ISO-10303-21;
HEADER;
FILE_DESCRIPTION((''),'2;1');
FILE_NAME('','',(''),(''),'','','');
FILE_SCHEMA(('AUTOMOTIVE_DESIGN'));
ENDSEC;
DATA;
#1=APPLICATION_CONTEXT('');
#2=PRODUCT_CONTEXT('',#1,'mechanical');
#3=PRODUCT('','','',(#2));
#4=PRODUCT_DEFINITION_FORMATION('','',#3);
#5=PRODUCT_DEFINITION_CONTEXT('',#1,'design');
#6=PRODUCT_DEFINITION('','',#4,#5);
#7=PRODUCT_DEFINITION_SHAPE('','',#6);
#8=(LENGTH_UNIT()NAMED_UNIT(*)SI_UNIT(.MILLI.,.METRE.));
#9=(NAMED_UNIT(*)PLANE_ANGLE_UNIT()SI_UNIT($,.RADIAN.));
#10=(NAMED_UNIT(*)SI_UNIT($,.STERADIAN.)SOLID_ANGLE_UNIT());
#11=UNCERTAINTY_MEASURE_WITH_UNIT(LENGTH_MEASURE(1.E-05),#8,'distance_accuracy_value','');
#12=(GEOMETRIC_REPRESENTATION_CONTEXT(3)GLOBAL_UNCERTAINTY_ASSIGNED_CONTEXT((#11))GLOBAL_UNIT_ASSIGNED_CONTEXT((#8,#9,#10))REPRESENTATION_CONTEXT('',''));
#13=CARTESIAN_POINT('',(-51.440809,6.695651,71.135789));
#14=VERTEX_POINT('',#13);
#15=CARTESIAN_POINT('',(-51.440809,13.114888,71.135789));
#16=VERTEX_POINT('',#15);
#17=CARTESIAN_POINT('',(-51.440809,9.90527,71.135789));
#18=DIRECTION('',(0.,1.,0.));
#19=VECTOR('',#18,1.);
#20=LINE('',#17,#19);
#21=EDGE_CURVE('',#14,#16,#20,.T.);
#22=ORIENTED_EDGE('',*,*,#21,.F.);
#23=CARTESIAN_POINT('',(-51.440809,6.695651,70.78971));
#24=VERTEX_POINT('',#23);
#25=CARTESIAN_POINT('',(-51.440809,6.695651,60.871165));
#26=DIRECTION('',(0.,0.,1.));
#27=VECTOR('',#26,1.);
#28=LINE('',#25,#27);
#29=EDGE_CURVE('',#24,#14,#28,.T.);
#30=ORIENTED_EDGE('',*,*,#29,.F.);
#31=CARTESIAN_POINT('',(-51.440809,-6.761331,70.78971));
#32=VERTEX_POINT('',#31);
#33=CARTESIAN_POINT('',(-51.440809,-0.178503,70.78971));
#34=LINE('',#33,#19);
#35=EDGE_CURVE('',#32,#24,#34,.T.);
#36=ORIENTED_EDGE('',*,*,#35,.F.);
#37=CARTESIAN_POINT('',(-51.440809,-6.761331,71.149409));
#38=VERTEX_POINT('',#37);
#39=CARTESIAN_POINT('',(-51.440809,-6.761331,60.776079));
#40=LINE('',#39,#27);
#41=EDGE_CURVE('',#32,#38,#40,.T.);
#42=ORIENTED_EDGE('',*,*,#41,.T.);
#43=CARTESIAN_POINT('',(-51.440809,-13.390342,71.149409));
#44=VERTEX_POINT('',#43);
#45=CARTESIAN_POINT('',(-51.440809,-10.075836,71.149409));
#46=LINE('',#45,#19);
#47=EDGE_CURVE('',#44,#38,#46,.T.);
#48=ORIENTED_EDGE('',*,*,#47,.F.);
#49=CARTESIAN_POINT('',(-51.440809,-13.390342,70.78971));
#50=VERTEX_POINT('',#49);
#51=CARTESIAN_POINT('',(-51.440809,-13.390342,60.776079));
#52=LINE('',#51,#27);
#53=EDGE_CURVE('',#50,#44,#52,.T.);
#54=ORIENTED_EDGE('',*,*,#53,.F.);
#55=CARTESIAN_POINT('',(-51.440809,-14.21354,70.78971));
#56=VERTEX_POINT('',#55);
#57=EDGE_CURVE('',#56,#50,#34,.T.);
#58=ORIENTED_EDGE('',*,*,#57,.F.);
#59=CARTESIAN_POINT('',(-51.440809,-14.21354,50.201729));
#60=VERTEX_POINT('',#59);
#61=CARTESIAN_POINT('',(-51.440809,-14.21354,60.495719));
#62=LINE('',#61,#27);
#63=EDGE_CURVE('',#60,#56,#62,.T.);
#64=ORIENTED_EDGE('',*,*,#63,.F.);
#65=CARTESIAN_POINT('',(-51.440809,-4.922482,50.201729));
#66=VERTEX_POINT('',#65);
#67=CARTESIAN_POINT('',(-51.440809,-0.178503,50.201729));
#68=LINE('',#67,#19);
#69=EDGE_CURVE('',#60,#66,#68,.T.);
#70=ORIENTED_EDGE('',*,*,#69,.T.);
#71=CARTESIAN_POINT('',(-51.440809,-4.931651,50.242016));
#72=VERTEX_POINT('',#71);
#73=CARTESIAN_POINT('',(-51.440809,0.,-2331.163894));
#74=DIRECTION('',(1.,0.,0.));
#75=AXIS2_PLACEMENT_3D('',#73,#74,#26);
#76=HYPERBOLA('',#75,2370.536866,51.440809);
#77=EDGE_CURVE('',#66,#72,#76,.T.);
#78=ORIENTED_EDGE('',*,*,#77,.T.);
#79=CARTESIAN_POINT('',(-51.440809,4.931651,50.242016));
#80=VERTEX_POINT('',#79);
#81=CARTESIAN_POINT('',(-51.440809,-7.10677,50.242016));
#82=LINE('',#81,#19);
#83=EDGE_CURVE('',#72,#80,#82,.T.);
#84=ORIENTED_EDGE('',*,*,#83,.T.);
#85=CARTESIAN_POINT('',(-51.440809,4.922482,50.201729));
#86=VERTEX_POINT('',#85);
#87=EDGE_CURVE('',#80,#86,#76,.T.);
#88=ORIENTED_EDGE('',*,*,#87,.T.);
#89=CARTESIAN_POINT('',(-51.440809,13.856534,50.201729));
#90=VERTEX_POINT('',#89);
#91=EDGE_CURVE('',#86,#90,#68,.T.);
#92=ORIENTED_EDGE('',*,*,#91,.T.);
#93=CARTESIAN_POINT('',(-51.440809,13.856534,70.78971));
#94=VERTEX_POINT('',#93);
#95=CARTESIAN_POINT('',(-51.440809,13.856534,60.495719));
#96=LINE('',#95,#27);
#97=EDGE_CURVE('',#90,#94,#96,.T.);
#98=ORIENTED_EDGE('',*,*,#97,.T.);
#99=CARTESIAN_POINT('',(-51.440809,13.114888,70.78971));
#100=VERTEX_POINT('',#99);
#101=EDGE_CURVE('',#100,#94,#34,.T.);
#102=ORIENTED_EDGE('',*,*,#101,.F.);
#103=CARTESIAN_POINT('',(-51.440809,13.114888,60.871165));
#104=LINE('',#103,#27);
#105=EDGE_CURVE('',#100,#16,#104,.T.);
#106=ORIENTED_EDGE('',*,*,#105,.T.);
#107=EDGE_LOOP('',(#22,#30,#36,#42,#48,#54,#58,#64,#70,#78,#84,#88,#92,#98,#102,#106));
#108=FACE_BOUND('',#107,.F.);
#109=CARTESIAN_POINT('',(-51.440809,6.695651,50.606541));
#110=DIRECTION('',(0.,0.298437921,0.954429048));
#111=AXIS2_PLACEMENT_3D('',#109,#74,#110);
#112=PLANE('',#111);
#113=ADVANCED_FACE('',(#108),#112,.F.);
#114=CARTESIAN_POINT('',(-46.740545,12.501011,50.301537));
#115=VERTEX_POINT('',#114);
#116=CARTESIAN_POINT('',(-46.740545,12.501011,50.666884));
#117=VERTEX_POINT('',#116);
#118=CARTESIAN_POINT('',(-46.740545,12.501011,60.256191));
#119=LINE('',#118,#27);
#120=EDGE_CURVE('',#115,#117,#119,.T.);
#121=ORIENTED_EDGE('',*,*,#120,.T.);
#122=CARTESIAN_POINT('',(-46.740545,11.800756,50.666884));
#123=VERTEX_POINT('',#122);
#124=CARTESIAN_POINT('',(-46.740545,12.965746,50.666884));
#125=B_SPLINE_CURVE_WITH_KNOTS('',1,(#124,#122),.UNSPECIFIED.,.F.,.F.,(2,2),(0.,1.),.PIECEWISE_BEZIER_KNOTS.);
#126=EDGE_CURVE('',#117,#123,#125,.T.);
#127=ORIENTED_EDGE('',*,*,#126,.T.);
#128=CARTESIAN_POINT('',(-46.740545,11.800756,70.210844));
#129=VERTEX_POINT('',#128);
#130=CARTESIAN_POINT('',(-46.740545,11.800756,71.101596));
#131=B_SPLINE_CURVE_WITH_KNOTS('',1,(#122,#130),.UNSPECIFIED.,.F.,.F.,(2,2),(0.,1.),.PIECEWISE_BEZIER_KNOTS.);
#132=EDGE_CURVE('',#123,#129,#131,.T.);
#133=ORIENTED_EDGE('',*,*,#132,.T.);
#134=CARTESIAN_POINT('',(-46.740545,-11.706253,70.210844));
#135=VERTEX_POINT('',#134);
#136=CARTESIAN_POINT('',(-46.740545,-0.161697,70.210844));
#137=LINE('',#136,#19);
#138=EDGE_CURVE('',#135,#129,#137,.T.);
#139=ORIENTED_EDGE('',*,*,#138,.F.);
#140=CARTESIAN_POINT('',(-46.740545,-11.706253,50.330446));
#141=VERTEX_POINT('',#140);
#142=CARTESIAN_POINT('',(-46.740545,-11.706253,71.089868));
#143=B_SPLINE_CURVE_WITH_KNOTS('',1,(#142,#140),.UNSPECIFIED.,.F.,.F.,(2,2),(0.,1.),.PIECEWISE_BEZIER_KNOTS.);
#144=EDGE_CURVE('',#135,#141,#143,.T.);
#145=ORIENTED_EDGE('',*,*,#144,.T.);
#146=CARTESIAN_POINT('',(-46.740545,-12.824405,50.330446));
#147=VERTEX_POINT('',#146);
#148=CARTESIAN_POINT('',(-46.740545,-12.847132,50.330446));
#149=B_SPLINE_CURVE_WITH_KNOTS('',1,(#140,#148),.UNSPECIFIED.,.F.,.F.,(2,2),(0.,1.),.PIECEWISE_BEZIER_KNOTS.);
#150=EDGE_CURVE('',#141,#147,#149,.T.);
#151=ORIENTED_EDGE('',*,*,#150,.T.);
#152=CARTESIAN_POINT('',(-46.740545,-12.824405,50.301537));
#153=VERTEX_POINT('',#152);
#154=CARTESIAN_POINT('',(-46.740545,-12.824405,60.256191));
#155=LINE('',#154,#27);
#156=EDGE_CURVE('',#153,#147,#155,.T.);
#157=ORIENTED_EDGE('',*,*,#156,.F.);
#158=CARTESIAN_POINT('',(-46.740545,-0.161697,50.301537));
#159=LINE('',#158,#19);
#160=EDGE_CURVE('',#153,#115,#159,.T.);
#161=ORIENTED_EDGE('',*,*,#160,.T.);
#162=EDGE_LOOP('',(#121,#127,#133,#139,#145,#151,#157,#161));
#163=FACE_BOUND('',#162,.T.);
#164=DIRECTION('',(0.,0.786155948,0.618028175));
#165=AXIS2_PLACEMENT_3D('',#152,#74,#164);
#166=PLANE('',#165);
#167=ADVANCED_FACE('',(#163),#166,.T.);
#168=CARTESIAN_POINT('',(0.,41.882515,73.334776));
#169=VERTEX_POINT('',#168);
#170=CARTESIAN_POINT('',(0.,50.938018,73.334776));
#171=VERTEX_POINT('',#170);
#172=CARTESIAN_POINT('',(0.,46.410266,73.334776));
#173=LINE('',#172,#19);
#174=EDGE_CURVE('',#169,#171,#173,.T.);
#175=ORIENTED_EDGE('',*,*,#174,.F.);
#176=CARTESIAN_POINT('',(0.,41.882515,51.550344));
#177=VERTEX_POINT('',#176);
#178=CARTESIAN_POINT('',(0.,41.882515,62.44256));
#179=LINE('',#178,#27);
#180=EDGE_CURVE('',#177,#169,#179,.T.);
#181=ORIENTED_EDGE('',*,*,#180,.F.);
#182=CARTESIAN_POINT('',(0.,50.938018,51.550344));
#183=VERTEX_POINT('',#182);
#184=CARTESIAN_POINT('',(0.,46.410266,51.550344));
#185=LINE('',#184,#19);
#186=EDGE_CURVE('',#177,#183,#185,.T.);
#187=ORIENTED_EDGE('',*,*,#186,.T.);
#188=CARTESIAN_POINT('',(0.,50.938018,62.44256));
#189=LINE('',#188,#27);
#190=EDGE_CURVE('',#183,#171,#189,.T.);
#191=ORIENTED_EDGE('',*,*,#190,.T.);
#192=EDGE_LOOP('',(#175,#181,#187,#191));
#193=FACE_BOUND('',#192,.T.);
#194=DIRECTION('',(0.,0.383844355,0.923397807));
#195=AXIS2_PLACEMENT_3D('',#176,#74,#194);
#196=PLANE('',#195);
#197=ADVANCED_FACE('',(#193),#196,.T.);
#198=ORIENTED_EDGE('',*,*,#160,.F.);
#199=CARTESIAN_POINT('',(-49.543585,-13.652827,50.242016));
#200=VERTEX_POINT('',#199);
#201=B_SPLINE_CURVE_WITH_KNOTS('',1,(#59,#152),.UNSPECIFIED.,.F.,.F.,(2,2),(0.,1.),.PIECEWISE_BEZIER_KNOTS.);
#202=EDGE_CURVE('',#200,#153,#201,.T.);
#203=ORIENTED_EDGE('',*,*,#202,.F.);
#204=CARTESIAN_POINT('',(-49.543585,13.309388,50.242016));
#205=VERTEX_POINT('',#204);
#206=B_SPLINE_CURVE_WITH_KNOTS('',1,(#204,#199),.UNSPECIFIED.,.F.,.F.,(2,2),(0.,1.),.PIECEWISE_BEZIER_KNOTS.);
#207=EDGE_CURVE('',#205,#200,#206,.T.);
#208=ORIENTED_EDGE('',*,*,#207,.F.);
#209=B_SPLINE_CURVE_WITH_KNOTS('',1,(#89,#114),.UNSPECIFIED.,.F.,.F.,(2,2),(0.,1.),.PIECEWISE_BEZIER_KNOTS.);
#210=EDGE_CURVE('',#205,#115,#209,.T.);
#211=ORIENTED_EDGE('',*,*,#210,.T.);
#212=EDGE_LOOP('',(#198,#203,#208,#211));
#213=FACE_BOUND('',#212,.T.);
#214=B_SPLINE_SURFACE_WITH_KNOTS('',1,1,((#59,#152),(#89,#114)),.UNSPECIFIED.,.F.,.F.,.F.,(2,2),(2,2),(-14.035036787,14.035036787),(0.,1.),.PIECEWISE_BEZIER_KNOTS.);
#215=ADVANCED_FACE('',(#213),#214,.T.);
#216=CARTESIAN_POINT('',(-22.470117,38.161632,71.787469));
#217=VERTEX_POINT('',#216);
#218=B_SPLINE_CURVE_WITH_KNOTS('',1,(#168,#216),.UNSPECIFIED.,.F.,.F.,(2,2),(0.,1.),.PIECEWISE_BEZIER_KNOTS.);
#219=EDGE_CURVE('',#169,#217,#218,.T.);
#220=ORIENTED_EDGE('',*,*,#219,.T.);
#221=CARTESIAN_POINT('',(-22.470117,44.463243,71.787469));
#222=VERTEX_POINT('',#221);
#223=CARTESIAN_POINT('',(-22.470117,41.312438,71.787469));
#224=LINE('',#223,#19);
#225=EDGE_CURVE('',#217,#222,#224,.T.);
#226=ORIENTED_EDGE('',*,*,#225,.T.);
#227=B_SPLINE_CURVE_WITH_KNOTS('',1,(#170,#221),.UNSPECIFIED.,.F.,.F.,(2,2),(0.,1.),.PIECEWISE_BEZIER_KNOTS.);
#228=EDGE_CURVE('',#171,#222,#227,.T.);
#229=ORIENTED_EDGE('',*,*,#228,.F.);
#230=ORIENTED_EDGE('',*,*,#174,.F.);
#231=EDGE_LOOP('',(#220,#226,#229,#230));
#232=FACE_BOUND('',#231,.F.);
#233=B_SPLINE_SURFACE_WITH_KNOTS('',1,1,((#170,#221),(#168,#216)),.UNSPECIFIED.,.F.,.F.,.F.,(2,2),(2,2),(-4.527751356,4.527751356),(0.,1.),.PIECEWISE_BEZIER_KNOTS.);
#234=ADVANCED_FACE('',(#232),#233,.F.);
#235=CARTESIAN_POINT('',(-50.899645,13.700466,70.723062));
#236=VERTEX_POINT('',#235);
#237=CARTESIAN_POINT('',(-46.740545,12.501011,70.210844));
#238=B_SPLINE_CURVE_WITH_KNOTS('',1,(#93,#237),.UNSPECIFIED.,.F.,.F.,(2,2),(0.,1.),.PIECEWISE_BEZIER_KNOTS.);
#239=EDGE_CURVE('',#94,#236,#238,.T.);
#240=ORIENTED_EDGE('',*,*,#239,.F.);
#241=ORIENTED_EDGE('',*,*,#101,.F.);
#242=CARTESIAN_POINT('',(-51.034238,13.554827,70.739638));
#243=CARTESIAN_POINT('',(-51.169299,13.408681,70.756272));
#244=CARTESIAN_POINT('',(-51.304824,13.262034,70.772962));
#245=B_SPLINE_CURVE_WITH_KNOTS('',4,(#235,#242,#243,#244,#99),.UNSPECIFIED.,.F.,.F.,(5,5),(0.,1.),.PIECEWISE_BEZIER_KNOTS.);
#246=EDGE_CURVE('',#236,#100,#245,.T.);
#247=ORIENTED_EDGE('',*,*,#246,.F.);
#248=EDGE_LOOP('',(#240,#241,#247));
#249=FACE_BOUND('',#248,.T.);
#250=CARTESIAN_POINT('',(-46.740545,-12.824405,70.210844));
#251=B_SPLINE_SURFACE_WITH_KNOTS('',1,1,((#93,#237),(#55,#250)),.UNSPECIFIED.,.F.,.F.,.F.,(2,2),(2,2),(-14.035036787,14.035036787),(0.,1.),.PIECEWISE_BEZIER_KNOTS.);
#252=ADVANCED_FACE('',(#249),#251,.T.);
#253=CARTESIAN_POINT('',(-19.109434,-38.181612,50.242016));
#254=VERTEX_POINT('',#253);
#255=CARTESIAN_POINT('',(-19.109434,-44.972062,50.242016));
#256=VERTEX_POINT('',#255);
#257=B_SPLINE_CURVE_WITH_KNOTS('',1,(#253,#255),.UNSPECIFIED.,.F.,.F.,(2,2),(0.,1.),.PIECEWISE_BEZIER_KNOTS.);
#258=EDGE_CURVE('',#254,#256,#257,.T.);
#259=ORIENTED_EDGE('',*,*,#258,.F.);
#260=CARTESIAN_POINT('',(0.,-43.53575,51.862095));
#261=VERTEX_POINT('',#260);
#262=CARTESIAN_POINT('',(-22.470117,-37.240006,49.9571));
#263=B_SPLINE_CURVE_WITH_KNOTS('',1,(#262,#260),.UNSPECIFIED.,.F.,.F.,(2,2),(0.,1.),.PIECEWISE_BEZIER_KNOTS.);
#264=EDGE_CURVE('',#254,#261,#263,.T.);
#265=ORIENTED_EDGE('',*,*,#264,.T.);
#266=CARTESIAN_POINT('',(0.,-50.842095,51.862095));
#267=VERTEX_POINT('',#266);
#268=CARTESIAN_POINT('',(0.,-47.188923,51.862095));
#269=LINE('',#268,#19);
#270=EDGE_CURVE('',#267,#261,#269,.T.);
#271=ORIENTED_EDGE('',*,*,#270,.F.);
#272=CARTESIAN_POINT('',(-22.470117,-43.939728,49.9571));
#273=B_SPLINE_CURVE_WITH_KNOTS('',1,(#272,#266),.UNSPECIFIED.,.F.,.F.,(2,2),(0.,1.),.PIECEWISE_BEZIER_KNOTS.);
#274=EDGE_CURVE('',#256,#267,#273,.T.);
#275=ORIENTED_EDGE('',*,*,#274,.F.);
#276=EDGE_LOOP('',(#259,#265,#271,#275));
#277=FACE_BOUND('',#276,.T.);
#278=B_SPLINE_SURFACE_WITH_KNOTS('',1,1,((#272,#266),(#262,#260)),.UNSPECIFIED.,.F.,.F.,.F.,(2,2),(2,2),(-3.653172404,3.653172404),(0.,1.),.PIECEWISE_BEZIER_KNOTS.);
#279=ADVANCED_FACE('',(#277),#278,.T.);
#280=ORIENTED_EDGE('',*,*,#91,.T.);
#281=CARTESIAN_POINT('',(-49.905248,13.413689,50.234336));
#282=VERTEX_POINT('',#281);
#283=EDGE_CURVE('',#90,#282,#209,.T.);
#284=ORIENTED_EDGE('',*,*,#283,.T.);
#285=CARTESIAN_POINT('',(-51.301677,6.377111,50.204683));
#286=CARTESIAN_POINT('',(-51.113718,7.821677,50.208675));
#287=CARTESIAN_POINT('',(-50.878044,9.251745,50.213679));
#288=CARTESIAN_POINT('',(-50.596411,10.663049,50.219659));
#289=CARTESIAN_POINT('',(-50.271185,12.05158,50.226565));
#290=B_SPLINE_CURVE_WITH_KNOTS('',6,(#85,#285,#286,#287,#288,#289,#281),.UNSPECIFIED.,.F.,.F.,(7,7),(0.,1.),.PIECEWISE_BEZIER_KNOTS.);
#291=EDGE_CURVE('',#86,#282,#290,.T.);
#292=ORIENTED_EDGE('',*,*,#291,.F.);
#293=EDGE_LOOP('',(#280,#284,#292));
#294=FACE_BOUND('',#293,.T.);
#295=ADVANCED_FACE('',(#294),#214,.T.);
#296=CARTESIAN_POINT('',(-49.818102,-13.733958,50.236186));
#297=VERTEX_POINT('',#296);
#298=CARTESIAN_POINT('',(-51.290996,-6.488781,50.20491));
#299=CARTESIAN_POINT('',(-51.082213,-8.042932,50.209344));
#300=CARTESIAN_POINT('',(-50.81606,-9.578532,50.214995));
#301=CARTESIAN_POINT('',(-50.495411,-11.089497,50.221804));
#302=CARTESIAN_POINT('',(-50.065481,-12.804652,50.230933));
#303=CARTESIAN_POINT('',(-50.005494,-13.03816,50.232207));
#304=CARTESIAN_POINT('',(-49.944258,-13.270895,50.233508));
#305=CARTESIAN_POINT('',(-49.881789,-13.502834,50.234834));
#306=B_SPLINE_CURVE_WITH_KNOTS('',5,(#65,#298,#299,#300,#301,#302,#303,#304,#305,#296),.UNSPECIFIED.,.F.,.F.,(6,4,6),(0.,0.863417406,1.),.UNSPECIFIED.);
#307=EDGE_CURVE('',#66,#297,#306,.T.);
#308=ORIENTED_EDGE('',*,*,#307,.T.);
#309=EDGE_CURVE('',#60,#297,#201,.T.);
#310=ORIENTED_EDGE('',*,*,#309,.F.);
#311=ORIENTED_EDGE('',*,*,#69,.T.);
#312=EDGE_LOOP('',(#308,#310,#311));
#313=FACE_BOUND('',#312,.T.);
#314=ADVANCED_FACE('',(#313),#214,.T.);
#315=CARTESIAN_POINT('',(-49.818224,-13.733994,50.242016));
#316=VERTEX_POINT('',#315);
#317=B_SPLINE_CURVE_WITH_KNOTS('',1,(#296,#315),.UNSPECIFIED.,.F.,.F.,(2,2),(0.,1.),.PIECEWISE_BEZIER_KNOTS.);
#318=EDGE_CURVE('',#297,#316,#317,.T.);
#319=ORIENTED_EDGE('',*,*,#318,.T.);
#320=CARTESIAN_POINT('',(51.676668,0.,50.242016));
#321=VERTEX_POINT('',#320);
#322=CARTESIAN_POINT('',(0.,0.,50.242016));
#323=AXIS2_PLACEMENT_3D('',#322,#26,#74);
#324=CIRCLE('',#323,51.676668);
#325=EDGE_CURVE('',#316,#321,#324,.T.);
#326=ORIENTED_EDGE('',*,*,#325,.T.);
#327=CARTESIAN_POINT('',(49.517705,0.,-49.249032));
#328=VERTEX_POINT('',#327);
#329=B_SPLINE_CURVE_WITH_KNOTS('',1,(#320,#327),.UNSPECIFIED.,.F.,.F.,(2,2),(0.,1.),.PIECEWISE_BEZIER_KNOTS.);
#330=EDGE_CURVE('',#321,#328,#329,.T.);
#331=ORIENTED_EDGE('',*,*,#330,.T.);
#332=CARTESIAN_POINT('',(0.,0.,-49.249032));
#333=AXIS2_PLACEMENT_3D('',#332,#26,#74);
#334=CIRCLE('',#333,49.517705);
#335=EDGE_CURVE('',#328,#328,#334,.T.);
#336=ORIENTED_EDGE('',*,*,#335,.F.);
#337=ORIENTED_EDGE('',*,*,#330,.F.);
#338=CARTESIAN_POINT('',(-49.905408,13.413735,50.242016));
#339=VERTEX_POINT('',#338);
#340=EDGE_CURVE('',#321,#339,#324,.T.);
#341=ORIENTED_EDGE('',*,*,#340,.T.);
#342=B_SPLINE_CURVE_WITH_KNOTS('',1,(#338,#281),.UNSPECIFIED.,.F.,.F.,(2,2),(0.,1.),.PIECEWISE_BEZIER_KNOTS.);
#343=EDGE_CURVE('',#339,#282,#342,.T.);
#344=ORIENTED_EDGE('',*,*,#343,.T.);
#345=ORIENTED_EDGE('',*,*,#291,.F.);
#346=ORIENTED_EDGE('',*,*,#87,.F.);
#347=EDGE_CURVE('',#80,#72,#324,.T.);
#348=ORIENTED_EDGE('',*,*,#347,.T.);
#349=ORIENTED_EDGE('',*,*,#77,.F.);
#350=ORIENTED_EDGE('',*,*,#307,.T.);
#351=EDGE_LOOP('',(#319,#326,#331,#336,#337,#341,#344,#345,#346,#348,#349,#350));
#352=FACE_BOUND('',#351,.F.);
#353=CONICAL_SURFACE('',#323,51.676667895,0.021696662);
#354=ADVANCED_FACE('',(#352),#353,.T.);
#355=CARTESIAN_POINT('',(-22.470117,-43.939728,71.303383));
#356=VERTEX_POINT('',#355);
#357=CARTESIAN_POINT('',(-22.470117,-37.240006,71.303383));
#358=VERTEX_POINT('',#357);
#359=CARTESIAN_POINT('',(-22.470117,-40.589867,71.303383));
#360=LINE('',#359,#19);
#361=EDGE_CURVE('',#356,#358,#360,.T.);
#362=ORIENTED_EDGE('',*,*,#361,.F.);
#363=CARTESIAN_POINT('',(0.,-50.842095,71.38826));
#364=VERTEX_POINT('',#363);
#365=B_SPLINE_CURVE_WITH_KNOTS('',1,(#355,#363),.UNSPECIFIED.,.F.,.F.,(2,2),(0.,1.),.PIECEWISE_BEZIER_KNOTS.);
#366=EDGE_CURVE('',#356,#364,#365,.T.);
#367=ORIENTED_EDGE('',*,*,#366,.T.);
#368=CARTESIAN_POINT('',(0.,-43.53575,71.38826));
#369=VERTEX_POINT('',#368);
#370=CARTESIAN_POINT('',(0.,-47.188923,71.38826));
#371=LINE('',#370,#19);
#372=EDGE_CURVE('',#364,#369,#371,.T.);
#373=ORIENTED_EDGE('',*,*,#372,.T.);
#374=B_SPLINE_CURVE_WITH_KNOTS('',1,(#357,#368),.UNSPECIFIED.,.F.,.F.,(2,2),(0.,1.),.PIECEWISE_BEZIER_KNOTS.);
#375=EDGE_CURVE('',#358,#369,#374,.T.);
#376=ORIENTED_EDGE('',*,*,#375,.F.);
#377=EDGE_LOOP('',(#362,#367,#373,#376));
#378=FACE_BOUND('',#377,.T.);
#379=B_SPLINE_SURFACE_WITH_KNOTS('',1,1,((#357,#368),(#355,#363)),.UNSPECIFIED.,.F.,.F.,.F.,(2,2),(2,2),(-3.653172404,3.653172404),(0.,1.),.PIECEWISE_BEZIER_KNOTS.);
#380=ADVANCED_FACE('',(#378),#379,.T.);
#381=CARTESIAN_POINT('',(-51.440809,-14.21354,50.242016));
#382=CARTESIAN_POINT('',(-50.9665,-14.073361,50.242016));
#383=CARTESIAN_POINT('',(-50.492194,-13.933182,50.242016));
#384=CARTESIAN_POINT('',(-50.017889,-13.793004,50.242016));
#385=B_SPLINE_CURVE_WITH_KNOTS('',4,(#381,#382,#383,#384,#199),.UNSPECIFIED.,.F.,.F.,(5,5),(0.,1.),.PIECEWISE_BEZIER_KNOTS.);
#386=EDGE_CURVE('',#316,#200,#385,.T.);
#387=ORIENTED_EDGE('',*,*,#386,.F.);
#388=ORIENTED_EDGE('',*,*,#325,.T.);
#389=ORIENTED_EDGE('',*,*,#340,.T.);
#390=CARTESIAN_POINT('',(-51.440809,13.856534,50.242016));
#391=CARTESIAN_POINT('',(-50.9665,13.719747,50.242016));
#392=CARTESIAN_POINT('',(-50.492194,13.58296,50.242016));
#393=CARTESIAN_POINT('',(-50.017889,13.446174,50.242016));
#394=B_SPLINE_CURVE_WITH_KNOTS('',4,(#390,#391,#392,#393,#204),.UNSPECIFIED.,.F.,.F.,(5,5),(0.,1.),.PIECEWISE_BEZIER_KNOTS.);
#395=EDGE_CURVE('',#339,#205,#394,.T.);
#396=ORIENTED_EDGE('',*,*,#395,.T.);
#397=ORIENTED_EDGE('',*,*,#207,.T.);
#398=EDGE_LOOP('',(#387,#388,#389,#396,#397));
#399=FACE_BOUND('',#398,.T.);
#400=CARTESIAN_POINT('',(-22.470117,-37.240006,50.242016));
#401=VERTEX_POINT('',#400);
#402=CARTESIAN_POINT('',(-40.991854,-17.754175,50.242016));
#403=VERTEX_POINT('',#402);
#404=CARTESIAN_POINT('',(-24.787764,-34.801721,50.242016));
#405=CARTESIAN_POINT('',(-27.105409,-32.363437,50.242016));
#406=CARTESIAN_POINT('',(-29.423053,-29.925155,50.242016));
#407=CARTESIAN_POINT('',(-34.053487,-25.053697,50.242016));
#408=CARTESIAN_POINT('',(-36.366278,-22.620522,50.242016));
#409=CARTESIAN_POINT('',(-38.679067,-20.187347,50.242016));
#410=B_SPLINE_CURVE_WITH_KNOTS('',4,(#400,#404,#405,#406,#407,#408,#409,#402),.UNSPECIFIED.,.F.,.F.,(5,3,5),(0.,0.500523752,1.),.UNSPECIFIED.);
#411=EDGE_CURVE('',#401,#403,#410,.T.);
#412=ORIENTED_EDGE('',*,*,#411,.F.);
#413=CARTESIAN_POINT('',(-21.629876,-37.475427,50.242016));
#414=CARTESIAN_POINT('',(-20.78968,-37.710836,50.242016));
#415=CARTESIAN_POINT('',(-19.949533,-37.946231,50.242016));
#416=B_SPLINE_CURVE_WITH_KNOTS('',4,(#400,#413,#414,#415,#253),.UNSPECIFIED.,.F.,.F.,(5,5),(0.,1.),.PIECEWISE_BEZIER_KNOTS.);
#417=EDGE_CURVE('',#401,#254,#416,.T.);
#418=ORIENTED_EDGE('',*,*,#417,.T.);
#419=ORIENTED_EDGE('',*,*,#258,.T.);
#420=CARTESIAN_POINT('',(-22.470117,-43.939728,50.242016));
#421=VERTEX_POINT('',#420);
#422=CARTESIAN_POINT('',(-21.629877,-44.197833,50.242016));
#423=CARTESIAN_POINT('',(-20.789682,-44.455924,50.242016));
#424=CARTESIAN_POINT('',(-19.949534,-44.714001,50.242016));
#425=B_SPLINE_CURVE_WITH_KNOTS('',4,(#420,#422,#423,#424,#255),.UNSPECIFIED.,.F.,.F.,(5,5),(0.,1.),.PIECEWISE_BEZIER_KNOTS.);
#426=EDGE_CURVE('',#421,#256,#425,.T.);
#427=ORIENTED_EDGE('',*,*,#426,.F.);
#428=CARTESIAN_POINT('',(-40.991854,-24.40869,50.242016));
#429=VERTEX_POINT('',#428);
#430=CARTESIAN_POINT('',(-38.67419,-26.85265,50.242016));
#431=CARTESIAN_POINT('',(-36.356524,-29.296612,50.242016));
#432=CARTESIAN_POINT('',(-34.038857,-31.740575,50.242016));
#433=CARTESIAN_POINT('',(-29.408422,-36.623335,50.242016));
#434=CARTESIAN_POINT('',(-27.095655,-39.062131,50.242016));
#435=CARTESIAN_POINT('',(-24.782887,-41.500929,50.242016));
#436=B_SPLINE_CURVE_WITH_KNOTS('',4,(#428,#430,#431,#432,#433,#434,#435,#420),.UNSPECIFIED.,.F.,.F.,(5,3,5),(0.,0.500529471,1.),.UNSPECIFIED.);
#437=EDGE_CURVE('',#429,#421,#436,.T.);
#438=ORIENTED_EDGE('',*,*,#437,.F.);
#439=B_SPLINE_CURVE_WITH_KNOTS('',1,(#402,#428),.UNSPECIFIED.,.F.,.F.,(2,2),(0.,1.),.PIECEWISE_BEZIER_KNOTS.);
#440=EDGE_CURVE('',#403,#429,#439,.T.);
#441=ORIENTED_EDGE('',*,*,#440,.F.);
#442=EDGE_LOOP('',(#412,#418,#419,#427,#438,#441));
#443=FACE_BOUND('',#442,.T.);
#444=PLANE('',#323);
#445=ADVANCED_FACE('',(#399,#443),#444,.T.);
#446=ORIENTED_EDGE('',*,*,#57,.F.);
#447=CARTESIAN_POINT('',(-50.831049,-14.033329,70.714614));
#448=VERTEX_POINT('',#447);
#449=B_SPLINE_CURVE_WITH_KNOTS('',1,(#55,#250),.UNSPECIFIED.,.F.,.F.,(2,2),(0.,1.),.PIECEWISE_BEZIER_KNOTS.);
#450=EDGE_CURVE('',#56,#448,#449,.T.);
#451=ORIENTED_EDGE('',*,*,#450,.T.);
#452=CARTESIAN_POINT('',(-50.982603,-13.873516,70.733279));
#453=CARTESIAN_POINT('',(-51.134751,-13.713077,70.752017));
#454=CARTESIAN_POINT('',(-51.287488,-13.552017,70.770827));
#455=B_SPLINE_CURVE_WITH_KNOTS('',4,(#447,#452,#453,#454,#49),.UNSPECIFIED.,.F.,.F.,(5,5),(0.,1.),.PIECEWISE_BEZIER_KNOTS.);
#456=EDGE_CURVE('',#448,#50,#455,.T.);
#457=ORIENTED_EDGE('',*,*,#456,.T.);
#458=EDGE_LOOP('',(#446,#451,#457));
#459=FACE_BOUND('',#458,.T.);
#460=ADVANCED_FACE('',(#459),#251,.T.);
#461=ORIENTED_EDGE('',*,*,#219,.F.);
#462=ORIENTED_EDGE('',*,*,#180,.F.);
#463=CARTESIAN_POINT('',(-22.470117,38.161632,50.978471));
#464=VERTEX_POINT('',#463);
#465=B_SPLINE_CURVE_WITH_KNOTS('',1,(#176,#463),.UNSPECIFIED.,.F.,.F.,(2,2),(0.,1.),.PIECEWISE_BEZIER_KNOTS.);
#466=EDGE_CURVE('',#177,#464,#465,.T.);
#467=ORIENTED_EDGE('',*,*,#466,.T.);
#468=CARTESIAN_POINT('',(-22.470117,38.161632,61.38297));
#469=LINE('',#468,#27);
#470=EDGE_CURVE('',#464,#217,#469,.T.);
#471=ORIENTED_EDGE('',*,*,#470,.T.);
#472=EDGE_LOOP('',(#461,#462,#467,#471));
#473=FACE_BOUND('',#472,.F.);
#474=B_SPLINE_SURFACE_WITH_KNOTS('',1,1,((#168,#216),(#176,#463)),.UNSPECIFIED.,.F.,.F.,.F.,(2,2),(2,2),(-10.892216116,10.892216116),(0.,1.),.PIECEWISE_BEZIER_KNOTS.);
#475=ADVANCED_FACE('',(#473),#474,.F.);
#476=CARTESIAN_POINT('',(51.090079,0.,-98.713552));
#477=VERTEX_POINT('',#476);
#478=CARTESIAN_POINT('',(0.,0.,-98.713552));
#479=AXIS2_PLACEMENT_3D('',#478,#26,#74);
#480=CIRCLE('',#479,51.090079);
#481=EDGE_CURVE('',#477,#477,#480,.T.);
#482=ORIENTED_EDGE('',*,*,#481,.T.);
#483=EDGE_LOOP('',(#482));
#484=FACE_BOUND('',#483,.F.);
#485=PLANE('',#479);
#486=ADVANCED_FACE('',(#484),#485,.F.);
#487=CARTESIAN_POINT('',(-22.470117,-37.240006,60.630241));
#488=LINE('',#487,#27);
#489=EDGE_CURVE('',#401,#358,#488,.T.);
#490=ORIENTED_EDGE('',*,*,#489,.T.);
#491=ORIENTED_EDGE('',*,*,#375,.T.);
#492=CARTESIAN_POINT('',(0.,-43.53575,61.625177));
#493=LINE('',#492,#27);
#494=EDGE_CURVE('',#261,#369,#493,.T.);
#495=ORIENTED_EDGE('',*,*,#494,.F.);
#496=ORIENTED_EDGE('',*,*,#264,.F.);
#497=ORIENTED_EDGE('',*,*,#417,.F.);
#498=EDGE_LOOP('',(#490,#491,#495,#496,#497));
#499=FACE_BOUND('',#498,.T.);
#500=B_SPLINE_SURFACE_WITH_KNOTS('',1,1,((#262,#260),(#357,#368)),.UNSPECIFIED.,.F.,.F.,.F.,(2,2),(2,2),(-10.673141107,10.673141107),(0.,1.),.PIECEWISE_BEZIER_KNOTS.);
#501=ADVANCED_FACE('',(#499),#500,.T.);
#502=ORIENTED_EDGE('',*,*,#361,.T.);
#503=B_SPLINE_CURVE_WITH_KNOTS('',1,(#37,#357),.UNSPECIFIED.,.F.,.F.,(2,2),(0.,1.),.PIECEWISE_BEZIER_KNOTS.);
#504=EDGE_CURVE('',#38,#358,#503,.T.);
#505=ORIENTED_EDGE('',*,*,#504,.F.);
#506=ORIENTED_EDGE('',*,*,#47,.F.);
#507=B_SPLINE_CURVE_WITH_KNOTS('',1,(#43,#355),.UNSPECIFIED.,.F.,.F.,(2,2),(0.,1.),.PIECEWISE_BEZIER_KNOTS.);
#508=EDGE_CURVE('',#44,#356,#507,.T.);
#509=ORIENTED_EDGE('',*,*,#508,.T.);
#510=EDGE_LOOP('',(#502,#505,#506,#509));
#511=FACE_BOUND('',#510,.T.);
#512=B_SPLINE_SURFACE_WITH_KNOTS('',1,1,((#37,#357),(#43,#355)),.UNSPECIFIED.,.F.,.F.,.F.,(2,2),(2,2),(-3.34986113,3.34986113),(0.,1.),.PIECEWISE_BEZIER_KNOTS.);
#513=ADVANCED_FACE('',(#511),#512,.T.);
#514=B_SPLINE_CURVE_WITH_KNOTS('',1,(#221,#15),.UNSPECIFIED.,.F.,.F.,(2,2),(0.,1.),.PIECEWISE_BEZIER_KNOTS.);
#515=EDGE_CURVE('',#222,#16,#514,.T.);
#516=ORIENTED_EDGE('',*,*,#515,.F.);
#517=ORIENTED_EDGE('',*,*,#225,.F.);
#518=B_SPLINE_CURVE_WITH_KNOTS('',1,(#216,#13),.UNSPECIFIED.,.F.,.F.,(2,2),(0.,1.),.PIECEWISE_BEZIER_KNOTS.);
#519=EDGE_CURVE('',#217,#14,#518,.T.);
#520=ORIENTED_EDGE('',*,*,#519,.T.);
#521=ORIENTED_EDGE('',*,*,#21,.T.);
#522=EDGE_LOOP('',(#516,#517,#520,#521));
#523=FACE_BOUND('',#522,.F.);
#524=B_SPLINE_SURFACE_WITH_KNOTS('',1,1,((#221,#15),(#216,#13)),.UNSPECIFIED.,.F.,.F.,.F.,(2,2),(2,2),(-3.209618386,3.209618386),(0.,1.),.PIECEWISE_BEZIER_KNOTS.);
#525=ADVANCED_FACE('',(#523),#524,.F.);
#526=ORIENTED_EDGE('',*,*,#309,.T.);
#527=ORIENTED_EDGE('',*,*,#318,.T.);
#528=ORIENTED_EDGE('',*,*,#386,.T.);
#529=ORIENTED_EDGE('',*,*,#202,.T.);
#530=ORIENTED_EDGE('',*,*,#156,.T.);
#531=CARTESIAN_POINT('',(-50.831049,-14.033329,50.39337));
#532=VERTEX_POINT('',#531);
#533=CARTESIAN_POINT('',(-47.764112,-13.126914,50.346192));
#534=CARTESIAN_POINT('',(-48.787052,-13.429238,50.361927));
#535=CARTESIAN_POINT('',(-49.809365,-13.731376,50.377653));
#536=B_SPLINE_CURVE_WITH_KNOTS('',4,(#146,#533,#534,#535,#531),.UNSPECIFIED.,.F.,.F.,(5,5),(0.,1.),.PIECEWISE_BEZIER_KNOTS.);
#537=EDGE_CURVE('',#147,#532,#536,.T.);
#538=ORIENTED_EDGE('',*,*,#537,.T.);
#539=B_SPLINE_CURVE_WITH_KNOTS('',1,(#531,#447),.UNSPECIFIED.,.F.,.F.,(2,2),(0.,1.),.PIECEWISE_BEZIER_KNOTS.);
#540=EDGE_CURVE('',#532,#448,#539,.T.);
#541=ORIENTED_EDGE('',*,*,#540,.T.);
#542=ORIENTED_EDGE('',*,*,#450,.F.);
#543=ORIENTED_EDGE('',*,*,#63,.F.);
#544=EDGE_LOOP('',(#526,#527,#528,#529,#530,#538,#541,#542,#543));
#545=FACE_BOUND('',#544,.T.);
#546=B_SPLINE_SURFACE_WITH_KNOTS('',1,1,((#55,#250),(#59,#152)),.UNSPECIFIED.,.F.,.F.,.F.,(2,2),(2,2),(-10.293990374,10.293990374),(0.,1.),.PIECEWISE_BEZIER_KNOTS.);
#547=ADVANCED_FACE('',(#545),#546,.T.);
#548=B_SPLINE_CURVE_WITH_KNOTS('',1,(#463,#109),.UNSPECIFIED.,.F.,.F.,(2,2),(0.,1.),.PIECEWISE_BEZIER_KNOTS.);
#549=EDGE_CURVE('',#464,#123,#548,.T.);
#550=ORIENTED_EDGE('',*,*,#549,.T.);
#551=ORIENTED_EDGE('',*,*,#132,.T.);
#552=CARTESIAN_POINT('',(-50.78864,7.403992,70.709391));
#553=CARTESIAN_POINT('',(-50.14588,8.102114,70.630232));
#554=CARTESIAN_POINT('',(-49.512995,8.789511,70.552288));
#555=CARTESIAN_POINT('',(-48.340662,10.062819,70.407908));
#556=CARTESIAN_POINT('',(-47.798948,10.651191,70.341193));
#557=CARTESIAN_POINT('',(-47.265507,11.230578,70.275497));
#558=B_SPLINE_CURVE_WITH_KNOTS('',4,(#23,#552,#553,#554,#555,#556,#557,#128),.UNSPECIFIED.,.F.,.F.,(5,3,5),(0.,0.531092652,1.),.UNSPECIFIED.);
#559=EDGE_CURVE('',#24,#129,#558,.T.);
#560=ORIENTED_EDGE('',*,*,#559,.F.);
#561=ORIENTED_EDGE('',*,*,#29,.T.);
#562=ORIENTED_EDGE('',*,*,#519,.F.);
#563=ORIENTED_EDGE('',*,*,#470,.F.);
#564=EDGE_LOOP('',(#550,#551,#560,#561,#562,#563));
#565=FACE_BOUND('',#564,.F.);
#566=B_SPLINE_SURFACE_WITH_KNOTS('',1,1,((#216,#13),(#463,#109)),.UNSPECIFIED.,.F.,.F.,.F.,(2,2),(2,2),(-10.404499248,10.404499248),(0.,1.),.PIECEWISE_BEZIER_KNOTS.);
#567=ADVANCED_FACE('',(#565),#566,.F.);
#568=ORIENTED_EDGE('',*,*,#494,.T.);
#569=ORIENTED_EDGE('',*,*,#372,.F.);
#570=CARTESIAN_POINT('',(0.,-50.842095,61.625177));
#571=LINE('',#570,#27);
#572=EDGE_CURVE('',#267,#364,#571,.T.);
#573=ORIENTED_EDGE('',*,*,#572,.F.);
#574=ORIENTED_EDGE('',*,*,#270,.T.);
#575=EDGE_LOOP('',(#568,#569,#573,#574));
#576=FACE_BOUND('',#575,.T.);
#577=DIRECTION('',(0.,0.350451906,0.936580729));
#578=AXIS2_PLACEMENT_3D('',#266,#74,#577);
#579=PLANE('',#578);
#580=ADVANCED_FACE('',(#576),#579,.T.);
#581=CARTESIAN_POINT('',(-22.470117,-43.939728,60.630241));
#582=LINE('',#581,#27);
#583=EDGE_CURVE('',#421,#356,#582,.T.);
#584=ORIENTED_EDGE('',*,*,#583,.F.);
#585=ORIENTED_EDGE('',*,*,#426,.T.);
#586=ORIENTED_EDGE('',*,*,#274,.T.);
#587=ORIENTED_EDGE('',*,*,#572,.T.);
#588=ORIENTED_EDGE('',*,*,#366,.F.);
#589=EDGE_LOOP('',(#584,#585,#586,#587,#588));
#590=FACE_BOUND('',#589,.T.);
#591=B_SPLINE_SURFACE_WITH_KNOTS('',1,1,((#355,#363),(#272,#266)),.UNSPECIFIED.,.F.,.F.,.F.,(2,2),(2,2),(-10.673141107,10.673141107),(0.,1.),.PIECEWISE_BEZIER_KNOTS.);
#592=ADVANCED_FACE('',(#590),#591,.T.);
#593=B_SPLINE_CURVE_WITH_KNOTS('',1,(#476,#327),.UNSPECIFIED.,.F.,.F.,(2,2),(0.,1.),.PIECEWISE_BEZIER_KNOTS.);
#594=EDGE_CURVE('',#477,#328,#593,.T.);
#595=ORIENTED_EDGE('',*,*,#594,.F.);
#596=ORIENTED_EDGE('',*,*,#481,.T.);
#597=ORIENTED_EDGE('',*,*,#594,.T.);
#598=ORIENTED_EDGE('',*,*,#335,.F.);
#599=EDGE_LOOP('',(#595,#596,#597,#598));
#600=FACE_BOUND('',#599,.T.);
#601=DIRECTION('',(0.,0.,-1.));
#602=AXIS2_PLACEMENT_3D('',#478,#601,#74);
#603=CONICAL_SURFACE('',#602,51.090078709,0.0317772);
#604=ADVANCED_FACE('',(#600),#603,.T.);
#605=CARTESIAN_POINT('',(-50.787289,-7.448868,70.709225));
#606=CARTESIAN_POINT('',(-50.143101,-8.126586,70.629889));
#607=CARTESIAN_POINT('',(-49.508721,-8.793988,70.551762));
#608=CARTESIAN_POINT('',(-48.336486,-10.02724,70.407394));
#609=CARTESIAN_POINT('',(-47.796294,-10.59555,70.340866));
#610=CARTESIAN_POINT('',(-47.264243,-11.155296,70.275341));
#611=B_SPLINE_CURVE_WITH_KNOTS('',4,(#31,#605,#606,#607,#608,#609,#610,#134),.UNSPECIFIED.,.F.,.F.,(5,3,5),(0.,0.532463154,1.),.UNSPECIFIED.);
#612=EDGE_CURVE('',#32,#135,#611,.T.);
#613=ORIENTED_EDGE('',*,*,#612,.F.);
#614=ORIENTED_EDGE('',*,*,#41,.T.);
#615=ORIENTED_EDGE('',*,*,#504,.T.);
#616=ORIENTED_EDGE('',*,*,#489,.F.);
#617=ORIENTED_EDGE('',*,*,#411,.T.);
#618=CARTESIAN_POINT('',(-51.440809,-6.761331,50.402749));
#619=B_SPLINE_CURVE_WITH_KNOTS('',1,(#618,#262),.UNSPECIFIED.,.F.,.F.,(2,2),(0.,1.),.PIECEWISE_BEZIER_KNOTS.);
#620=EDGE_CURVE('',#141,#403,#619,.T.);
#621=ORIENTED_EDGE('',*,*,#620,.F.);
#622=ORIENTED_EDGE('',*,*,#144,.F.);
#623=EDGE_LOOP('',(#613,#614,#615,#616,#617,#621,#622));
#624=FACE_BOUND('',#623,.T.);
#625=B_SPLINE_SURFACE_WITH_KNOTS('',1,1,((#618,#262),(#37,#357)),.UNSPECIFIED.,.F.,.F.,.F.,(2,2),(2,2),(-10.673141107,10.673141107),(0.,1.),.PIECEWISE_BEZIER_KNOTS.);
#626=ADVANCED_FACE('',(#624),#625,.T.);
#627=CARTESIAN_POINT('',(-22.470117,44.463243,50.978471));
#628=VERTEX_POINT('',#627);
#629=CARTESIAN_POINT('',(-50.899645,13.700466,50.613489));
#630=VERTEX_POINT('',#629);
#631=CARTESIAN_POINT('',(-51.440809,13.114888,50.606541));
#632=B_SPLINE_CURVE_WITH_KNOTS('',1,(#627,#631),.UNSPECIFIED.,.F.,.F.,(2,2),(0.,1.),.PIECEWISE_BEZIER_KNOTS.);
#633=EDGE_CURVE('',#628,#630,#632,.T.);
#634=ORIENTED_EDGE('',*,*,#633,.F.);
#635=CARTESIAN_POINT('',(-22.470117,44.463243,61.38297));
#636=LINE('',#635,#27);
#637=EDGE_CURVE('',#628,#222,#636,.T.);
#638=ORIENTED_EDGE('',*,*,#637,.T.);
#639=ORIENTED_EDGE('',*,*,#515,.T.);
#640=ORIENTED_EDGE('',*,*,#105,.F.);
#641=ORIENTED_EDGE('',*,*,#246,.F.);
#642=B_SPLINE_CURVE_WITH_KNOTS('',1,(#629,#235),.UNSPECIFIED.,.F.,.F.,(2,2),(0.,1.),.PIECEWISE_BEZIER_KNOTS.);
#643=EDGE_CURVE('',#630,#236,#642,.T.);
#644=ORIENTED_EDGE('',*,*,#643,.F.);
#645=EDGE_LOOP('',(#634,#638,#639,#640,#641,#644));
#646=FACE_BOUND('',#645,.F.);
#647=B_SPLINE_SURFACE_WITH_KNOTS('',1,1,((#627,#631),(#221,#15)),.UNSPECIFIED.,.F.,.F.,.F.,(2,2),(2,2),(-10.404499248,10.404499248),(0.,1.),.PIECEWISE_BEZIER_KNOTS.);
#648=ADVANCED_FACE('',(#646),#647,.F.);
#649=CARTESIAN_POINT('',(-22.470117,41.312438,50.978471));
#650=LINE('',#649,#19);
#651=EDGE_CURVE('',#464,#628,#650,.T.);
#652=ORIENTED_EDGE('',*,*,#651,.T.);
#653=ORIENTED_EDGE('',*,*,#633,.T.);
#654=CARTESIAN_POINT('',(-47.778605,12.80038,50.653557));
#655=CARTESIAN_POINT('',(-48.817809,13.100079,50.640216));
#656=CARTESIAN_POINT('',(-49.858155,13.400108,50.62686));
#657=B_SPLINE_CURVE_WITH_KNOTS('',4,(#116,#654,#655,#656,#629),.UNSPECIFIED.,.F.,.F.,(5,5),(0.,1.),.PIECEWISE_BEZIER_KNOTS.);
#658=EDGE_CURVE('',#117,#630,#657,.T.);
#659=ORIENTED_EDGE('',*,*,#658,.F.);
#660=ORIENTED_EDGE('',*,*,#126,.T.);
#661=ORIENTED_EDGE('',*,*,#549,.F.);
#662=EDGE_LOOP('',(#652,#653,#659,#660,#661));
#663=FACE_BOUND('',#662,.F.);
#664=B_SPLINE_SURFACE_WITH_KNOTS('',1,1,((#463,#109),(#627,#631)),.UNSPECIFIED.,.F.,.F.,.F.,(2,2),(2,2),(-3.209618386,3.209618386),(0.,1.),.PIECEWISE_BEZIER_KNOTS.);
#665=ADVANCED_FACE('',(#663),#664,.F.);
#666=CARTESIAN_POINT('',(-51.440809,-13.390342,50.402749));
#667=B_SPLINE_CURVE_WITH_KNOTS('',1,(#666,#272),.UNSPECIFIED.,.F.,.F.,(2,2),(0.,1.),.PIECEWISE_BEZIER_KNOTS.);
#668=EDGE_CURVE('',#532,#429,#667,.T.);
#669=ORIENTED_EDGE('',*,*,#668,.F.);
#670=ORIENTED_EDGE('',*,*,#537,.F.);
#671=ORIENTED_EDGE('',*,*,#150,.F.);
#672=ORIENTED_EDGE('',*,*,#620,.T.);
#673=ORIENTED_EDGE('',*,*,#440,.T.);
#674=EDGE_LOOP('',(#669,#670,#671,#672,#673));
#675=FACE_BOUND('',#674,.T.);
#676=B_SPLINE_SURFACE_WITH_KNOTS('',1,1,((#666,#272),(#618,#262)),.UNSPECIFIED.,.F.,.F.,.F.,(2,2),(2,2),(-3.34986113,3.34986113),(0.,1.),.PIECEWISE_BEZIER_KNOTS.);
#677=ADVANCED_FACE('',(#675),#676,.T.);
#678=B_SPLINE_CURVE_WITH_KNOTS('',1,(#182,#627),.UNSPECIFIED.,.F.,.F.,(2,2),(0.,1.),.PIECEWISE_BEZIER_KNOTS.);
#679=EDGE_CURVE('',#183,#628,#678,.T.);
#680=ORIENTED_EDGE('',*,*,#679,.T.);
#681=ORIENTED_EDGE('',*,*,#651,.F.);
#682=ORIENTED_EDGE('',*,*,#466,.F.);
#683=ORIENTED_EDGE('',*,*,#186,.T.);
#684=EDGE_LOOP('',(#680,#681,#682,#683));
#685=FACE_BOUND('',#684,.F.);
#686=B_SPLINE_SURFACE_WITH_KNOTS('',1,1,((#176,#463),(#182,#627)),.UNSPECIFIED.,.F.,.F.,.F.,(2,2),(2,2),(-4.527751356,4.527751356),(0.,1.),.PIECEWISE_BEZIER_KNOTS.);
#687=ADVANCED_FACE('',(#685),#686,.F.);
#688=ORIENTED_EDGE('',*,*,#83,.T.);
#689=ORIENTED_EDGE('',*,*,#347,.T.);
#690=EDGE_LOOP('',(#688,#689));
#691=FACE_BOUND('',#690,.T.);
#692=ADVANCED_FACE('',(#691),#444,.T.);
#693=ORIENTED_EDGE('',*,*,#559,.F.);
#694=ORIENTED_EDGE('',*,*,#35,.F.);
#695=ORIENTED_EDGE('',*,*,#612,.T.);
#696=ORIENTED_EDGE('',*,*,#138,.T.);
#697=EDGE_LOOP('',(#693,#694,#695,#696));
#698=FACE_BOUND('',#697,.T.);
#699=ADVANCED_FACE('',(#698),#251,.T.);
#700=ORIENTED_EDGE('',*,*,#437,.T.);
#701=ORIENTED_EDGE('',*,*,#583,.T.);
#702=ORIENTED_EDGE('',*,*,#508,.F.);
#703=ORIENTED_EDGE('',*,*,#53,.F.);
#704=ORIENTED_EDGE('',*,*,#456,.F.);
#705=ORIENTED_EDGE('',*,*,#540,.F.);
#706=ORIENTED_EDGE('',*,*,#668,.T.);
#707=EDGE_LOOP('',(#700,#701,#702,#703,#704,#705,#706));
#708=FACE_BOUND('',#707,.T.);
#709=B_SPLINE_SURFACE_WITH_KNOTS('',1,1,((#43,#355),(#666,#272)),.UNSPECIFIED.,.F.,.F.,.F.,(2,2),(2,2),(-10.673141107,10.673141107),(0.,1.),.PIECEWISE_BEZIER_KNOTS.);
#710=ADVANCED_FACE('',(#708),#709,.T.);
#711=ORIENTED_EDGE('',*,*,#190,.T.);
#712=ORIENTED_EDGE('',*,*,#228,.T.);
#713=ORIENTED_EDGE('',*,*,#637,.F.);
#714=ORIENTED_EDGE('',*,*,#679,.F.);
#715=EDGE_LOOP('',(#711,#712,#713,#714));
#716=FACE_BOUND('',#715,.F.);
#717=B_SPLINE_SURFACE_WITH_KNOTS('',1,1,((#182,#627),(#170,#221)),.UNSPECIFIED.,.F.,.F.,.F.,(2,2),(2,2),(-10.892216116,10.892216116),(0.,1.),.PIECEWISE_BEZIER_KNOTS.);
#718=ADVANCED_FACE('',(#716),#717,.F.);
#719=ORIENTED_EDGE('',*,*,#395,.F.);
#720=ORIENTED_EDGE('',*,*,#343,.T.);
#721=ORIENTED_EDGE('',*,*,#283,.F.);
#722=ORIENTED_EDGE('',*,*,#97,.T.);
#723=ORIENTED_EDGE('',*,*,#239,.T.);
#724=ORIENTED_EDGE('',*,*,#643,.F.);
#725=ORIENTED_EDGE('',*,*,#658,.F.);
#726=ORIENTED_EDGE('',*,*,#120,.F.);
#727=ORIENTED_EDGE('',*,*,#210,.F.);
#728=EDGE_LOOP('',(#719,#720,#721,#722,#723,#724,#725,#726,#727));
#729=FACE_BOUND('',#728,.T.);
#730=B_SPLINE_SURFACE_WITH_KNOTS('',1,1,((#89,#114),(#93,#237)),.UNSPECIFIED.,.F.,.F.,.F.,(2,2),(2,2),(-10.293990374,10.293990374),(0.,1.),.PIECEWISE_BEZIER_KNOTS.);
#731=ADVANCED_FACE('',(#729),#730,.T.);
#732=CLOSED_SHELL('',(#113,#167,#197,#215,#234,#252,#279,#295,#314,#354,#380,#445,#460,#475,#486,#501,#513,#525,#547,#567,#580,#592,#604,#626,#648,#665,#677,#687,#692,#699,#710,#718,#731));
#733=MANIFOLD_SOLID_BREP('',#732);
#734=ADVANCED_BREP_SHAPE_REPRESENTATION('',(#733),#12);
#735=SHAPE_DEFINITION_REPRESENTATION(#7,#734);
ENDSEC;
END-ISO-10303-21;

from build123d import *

# Parameters (mm, degrees)
F10_R      = 51.6766678949
F9_R       = 49.5177054899
F14_R      = 51.0900787087
F11_FACE_R = 49.5177054899
F17_W      = 28.0700735748
F17_H      = 20.5879807472
F20_W      = 25.325415656
F20_H      = 19.9093073606
F23_W      = 6.3016116619
F23_H      = 20.8089984953
F22_W      = 6.4192367718
F22_H      = 20.5292478204
F22_W_2    = 6.6290111281
F22_H_2    = 20.7466594875
F23_W_2    = 6.6997222602
F23_H_2    = 21.3462822139
F26_W      = 7.3063448071
F26_H      = 19.5261649787
F28_W      = 9.0555027127
F28_H      = 21.7844322324


with BuildPart() as f11:
    # F10 (on face) → F11 section 0
    with BuildSketch(Plane.XY.offset(50.2420156263)):
        Circle(F10_R)
    # F9 (on face) → F11 section 1
    with BuildSketch(Plane.XY.offset(-49.2490320466)):
        Circle(F9_R)
    loft()

    # F14 (on offset) → F15 section 0
    with BuildSketch(Plane.XY.offset(-98.71355223)):
        Circle(F14_R)
    # F11_face (on face) → F15 section 1
    with BuildSketch(Plane(origin=(0, 0, -49.2490320466), x_dir=(1, 0, 0), z_dir=(0, 0, -1))):
        Circle(F11_FACE_R)
    loft()

    # F17 (on offset) → F21 section 0
    with BuildSketch(Plane.YZ.offset(-51.4408089221)):
        with Locations((-0.1785028726, 60.4957193136)):
            Rectangle(F17_W, F17_H)
    # F20 (on offset) → F21 section 1
    with BuildSketch(Plane.YZ.offset(-46.7405449599)):
        with Locations((-0.1616971567, 60.256190598)):
            Rectangle(F20_W, F20_H)
    loft()

    # F23 (on offset) → F24 section 0
    with BuildSketch(Plane.YZ.offset(-22.4701166153)):
        with Locations((41.3124375045, 61.3829698414)):
            Rectangle(F23_W, F23_H)
    # F22 (on offset) → F24 section 1
    with BuildSketch(Plane.YZ.offset(-51.4408089221)):
        with Locations((9.9052698351, 60.8711652458)):
            Rectangle(F22_W, F22_H)
    loft()

    # F22 (on offset) → F25 section 0
    with BuildSketch(Plane.YZ.offset(-51.4408089221)):
        with Locations((-10.0758362096, 60.7760790735)):
            Rectangle(F22_W_2, F22_H_2)
    # F23 (on offset) → F25 section 1
    with BuildSketch(Plane.YZ.offset(-22.4701166153)):
        with Locations((-40.5898671597, 60.6302414089)):
            Rectangle(F23_W_2, F23_H_2)
    loft()

    # F23 (on offset) → F27 section 0
    with BuildSketch(Plane.YZ.offset(-22.4701166153)):
        with Locations((-40.5898671597, 60.6302414089)):
            Rectangle(F23_W_2, F23_H_2)
    # F26 (on Right) → F27 section 1
    with BuildSketch(Plane.YZ):
        with Locations((-47.1889227629, 61.6251770407)):
            Rectangle(F26_W, F26_H)
    loft()

    # F28 (on Right) → F29 section 0
    with BuildSketch(Plane.YZ):
        with Locations((46.41026631, 62.4425597489)):
            Rectangle(F28_W, F28_H)
    # F23 (on offset) → F29 section 1
    with BuildSketch(Plane.YZ.offset(-22.4701166153)):
        with Locations((41.3124375045, 61.3829698414)):
            Rectangle(F23_W, F23_H)
    loft()


solid = f11.part
